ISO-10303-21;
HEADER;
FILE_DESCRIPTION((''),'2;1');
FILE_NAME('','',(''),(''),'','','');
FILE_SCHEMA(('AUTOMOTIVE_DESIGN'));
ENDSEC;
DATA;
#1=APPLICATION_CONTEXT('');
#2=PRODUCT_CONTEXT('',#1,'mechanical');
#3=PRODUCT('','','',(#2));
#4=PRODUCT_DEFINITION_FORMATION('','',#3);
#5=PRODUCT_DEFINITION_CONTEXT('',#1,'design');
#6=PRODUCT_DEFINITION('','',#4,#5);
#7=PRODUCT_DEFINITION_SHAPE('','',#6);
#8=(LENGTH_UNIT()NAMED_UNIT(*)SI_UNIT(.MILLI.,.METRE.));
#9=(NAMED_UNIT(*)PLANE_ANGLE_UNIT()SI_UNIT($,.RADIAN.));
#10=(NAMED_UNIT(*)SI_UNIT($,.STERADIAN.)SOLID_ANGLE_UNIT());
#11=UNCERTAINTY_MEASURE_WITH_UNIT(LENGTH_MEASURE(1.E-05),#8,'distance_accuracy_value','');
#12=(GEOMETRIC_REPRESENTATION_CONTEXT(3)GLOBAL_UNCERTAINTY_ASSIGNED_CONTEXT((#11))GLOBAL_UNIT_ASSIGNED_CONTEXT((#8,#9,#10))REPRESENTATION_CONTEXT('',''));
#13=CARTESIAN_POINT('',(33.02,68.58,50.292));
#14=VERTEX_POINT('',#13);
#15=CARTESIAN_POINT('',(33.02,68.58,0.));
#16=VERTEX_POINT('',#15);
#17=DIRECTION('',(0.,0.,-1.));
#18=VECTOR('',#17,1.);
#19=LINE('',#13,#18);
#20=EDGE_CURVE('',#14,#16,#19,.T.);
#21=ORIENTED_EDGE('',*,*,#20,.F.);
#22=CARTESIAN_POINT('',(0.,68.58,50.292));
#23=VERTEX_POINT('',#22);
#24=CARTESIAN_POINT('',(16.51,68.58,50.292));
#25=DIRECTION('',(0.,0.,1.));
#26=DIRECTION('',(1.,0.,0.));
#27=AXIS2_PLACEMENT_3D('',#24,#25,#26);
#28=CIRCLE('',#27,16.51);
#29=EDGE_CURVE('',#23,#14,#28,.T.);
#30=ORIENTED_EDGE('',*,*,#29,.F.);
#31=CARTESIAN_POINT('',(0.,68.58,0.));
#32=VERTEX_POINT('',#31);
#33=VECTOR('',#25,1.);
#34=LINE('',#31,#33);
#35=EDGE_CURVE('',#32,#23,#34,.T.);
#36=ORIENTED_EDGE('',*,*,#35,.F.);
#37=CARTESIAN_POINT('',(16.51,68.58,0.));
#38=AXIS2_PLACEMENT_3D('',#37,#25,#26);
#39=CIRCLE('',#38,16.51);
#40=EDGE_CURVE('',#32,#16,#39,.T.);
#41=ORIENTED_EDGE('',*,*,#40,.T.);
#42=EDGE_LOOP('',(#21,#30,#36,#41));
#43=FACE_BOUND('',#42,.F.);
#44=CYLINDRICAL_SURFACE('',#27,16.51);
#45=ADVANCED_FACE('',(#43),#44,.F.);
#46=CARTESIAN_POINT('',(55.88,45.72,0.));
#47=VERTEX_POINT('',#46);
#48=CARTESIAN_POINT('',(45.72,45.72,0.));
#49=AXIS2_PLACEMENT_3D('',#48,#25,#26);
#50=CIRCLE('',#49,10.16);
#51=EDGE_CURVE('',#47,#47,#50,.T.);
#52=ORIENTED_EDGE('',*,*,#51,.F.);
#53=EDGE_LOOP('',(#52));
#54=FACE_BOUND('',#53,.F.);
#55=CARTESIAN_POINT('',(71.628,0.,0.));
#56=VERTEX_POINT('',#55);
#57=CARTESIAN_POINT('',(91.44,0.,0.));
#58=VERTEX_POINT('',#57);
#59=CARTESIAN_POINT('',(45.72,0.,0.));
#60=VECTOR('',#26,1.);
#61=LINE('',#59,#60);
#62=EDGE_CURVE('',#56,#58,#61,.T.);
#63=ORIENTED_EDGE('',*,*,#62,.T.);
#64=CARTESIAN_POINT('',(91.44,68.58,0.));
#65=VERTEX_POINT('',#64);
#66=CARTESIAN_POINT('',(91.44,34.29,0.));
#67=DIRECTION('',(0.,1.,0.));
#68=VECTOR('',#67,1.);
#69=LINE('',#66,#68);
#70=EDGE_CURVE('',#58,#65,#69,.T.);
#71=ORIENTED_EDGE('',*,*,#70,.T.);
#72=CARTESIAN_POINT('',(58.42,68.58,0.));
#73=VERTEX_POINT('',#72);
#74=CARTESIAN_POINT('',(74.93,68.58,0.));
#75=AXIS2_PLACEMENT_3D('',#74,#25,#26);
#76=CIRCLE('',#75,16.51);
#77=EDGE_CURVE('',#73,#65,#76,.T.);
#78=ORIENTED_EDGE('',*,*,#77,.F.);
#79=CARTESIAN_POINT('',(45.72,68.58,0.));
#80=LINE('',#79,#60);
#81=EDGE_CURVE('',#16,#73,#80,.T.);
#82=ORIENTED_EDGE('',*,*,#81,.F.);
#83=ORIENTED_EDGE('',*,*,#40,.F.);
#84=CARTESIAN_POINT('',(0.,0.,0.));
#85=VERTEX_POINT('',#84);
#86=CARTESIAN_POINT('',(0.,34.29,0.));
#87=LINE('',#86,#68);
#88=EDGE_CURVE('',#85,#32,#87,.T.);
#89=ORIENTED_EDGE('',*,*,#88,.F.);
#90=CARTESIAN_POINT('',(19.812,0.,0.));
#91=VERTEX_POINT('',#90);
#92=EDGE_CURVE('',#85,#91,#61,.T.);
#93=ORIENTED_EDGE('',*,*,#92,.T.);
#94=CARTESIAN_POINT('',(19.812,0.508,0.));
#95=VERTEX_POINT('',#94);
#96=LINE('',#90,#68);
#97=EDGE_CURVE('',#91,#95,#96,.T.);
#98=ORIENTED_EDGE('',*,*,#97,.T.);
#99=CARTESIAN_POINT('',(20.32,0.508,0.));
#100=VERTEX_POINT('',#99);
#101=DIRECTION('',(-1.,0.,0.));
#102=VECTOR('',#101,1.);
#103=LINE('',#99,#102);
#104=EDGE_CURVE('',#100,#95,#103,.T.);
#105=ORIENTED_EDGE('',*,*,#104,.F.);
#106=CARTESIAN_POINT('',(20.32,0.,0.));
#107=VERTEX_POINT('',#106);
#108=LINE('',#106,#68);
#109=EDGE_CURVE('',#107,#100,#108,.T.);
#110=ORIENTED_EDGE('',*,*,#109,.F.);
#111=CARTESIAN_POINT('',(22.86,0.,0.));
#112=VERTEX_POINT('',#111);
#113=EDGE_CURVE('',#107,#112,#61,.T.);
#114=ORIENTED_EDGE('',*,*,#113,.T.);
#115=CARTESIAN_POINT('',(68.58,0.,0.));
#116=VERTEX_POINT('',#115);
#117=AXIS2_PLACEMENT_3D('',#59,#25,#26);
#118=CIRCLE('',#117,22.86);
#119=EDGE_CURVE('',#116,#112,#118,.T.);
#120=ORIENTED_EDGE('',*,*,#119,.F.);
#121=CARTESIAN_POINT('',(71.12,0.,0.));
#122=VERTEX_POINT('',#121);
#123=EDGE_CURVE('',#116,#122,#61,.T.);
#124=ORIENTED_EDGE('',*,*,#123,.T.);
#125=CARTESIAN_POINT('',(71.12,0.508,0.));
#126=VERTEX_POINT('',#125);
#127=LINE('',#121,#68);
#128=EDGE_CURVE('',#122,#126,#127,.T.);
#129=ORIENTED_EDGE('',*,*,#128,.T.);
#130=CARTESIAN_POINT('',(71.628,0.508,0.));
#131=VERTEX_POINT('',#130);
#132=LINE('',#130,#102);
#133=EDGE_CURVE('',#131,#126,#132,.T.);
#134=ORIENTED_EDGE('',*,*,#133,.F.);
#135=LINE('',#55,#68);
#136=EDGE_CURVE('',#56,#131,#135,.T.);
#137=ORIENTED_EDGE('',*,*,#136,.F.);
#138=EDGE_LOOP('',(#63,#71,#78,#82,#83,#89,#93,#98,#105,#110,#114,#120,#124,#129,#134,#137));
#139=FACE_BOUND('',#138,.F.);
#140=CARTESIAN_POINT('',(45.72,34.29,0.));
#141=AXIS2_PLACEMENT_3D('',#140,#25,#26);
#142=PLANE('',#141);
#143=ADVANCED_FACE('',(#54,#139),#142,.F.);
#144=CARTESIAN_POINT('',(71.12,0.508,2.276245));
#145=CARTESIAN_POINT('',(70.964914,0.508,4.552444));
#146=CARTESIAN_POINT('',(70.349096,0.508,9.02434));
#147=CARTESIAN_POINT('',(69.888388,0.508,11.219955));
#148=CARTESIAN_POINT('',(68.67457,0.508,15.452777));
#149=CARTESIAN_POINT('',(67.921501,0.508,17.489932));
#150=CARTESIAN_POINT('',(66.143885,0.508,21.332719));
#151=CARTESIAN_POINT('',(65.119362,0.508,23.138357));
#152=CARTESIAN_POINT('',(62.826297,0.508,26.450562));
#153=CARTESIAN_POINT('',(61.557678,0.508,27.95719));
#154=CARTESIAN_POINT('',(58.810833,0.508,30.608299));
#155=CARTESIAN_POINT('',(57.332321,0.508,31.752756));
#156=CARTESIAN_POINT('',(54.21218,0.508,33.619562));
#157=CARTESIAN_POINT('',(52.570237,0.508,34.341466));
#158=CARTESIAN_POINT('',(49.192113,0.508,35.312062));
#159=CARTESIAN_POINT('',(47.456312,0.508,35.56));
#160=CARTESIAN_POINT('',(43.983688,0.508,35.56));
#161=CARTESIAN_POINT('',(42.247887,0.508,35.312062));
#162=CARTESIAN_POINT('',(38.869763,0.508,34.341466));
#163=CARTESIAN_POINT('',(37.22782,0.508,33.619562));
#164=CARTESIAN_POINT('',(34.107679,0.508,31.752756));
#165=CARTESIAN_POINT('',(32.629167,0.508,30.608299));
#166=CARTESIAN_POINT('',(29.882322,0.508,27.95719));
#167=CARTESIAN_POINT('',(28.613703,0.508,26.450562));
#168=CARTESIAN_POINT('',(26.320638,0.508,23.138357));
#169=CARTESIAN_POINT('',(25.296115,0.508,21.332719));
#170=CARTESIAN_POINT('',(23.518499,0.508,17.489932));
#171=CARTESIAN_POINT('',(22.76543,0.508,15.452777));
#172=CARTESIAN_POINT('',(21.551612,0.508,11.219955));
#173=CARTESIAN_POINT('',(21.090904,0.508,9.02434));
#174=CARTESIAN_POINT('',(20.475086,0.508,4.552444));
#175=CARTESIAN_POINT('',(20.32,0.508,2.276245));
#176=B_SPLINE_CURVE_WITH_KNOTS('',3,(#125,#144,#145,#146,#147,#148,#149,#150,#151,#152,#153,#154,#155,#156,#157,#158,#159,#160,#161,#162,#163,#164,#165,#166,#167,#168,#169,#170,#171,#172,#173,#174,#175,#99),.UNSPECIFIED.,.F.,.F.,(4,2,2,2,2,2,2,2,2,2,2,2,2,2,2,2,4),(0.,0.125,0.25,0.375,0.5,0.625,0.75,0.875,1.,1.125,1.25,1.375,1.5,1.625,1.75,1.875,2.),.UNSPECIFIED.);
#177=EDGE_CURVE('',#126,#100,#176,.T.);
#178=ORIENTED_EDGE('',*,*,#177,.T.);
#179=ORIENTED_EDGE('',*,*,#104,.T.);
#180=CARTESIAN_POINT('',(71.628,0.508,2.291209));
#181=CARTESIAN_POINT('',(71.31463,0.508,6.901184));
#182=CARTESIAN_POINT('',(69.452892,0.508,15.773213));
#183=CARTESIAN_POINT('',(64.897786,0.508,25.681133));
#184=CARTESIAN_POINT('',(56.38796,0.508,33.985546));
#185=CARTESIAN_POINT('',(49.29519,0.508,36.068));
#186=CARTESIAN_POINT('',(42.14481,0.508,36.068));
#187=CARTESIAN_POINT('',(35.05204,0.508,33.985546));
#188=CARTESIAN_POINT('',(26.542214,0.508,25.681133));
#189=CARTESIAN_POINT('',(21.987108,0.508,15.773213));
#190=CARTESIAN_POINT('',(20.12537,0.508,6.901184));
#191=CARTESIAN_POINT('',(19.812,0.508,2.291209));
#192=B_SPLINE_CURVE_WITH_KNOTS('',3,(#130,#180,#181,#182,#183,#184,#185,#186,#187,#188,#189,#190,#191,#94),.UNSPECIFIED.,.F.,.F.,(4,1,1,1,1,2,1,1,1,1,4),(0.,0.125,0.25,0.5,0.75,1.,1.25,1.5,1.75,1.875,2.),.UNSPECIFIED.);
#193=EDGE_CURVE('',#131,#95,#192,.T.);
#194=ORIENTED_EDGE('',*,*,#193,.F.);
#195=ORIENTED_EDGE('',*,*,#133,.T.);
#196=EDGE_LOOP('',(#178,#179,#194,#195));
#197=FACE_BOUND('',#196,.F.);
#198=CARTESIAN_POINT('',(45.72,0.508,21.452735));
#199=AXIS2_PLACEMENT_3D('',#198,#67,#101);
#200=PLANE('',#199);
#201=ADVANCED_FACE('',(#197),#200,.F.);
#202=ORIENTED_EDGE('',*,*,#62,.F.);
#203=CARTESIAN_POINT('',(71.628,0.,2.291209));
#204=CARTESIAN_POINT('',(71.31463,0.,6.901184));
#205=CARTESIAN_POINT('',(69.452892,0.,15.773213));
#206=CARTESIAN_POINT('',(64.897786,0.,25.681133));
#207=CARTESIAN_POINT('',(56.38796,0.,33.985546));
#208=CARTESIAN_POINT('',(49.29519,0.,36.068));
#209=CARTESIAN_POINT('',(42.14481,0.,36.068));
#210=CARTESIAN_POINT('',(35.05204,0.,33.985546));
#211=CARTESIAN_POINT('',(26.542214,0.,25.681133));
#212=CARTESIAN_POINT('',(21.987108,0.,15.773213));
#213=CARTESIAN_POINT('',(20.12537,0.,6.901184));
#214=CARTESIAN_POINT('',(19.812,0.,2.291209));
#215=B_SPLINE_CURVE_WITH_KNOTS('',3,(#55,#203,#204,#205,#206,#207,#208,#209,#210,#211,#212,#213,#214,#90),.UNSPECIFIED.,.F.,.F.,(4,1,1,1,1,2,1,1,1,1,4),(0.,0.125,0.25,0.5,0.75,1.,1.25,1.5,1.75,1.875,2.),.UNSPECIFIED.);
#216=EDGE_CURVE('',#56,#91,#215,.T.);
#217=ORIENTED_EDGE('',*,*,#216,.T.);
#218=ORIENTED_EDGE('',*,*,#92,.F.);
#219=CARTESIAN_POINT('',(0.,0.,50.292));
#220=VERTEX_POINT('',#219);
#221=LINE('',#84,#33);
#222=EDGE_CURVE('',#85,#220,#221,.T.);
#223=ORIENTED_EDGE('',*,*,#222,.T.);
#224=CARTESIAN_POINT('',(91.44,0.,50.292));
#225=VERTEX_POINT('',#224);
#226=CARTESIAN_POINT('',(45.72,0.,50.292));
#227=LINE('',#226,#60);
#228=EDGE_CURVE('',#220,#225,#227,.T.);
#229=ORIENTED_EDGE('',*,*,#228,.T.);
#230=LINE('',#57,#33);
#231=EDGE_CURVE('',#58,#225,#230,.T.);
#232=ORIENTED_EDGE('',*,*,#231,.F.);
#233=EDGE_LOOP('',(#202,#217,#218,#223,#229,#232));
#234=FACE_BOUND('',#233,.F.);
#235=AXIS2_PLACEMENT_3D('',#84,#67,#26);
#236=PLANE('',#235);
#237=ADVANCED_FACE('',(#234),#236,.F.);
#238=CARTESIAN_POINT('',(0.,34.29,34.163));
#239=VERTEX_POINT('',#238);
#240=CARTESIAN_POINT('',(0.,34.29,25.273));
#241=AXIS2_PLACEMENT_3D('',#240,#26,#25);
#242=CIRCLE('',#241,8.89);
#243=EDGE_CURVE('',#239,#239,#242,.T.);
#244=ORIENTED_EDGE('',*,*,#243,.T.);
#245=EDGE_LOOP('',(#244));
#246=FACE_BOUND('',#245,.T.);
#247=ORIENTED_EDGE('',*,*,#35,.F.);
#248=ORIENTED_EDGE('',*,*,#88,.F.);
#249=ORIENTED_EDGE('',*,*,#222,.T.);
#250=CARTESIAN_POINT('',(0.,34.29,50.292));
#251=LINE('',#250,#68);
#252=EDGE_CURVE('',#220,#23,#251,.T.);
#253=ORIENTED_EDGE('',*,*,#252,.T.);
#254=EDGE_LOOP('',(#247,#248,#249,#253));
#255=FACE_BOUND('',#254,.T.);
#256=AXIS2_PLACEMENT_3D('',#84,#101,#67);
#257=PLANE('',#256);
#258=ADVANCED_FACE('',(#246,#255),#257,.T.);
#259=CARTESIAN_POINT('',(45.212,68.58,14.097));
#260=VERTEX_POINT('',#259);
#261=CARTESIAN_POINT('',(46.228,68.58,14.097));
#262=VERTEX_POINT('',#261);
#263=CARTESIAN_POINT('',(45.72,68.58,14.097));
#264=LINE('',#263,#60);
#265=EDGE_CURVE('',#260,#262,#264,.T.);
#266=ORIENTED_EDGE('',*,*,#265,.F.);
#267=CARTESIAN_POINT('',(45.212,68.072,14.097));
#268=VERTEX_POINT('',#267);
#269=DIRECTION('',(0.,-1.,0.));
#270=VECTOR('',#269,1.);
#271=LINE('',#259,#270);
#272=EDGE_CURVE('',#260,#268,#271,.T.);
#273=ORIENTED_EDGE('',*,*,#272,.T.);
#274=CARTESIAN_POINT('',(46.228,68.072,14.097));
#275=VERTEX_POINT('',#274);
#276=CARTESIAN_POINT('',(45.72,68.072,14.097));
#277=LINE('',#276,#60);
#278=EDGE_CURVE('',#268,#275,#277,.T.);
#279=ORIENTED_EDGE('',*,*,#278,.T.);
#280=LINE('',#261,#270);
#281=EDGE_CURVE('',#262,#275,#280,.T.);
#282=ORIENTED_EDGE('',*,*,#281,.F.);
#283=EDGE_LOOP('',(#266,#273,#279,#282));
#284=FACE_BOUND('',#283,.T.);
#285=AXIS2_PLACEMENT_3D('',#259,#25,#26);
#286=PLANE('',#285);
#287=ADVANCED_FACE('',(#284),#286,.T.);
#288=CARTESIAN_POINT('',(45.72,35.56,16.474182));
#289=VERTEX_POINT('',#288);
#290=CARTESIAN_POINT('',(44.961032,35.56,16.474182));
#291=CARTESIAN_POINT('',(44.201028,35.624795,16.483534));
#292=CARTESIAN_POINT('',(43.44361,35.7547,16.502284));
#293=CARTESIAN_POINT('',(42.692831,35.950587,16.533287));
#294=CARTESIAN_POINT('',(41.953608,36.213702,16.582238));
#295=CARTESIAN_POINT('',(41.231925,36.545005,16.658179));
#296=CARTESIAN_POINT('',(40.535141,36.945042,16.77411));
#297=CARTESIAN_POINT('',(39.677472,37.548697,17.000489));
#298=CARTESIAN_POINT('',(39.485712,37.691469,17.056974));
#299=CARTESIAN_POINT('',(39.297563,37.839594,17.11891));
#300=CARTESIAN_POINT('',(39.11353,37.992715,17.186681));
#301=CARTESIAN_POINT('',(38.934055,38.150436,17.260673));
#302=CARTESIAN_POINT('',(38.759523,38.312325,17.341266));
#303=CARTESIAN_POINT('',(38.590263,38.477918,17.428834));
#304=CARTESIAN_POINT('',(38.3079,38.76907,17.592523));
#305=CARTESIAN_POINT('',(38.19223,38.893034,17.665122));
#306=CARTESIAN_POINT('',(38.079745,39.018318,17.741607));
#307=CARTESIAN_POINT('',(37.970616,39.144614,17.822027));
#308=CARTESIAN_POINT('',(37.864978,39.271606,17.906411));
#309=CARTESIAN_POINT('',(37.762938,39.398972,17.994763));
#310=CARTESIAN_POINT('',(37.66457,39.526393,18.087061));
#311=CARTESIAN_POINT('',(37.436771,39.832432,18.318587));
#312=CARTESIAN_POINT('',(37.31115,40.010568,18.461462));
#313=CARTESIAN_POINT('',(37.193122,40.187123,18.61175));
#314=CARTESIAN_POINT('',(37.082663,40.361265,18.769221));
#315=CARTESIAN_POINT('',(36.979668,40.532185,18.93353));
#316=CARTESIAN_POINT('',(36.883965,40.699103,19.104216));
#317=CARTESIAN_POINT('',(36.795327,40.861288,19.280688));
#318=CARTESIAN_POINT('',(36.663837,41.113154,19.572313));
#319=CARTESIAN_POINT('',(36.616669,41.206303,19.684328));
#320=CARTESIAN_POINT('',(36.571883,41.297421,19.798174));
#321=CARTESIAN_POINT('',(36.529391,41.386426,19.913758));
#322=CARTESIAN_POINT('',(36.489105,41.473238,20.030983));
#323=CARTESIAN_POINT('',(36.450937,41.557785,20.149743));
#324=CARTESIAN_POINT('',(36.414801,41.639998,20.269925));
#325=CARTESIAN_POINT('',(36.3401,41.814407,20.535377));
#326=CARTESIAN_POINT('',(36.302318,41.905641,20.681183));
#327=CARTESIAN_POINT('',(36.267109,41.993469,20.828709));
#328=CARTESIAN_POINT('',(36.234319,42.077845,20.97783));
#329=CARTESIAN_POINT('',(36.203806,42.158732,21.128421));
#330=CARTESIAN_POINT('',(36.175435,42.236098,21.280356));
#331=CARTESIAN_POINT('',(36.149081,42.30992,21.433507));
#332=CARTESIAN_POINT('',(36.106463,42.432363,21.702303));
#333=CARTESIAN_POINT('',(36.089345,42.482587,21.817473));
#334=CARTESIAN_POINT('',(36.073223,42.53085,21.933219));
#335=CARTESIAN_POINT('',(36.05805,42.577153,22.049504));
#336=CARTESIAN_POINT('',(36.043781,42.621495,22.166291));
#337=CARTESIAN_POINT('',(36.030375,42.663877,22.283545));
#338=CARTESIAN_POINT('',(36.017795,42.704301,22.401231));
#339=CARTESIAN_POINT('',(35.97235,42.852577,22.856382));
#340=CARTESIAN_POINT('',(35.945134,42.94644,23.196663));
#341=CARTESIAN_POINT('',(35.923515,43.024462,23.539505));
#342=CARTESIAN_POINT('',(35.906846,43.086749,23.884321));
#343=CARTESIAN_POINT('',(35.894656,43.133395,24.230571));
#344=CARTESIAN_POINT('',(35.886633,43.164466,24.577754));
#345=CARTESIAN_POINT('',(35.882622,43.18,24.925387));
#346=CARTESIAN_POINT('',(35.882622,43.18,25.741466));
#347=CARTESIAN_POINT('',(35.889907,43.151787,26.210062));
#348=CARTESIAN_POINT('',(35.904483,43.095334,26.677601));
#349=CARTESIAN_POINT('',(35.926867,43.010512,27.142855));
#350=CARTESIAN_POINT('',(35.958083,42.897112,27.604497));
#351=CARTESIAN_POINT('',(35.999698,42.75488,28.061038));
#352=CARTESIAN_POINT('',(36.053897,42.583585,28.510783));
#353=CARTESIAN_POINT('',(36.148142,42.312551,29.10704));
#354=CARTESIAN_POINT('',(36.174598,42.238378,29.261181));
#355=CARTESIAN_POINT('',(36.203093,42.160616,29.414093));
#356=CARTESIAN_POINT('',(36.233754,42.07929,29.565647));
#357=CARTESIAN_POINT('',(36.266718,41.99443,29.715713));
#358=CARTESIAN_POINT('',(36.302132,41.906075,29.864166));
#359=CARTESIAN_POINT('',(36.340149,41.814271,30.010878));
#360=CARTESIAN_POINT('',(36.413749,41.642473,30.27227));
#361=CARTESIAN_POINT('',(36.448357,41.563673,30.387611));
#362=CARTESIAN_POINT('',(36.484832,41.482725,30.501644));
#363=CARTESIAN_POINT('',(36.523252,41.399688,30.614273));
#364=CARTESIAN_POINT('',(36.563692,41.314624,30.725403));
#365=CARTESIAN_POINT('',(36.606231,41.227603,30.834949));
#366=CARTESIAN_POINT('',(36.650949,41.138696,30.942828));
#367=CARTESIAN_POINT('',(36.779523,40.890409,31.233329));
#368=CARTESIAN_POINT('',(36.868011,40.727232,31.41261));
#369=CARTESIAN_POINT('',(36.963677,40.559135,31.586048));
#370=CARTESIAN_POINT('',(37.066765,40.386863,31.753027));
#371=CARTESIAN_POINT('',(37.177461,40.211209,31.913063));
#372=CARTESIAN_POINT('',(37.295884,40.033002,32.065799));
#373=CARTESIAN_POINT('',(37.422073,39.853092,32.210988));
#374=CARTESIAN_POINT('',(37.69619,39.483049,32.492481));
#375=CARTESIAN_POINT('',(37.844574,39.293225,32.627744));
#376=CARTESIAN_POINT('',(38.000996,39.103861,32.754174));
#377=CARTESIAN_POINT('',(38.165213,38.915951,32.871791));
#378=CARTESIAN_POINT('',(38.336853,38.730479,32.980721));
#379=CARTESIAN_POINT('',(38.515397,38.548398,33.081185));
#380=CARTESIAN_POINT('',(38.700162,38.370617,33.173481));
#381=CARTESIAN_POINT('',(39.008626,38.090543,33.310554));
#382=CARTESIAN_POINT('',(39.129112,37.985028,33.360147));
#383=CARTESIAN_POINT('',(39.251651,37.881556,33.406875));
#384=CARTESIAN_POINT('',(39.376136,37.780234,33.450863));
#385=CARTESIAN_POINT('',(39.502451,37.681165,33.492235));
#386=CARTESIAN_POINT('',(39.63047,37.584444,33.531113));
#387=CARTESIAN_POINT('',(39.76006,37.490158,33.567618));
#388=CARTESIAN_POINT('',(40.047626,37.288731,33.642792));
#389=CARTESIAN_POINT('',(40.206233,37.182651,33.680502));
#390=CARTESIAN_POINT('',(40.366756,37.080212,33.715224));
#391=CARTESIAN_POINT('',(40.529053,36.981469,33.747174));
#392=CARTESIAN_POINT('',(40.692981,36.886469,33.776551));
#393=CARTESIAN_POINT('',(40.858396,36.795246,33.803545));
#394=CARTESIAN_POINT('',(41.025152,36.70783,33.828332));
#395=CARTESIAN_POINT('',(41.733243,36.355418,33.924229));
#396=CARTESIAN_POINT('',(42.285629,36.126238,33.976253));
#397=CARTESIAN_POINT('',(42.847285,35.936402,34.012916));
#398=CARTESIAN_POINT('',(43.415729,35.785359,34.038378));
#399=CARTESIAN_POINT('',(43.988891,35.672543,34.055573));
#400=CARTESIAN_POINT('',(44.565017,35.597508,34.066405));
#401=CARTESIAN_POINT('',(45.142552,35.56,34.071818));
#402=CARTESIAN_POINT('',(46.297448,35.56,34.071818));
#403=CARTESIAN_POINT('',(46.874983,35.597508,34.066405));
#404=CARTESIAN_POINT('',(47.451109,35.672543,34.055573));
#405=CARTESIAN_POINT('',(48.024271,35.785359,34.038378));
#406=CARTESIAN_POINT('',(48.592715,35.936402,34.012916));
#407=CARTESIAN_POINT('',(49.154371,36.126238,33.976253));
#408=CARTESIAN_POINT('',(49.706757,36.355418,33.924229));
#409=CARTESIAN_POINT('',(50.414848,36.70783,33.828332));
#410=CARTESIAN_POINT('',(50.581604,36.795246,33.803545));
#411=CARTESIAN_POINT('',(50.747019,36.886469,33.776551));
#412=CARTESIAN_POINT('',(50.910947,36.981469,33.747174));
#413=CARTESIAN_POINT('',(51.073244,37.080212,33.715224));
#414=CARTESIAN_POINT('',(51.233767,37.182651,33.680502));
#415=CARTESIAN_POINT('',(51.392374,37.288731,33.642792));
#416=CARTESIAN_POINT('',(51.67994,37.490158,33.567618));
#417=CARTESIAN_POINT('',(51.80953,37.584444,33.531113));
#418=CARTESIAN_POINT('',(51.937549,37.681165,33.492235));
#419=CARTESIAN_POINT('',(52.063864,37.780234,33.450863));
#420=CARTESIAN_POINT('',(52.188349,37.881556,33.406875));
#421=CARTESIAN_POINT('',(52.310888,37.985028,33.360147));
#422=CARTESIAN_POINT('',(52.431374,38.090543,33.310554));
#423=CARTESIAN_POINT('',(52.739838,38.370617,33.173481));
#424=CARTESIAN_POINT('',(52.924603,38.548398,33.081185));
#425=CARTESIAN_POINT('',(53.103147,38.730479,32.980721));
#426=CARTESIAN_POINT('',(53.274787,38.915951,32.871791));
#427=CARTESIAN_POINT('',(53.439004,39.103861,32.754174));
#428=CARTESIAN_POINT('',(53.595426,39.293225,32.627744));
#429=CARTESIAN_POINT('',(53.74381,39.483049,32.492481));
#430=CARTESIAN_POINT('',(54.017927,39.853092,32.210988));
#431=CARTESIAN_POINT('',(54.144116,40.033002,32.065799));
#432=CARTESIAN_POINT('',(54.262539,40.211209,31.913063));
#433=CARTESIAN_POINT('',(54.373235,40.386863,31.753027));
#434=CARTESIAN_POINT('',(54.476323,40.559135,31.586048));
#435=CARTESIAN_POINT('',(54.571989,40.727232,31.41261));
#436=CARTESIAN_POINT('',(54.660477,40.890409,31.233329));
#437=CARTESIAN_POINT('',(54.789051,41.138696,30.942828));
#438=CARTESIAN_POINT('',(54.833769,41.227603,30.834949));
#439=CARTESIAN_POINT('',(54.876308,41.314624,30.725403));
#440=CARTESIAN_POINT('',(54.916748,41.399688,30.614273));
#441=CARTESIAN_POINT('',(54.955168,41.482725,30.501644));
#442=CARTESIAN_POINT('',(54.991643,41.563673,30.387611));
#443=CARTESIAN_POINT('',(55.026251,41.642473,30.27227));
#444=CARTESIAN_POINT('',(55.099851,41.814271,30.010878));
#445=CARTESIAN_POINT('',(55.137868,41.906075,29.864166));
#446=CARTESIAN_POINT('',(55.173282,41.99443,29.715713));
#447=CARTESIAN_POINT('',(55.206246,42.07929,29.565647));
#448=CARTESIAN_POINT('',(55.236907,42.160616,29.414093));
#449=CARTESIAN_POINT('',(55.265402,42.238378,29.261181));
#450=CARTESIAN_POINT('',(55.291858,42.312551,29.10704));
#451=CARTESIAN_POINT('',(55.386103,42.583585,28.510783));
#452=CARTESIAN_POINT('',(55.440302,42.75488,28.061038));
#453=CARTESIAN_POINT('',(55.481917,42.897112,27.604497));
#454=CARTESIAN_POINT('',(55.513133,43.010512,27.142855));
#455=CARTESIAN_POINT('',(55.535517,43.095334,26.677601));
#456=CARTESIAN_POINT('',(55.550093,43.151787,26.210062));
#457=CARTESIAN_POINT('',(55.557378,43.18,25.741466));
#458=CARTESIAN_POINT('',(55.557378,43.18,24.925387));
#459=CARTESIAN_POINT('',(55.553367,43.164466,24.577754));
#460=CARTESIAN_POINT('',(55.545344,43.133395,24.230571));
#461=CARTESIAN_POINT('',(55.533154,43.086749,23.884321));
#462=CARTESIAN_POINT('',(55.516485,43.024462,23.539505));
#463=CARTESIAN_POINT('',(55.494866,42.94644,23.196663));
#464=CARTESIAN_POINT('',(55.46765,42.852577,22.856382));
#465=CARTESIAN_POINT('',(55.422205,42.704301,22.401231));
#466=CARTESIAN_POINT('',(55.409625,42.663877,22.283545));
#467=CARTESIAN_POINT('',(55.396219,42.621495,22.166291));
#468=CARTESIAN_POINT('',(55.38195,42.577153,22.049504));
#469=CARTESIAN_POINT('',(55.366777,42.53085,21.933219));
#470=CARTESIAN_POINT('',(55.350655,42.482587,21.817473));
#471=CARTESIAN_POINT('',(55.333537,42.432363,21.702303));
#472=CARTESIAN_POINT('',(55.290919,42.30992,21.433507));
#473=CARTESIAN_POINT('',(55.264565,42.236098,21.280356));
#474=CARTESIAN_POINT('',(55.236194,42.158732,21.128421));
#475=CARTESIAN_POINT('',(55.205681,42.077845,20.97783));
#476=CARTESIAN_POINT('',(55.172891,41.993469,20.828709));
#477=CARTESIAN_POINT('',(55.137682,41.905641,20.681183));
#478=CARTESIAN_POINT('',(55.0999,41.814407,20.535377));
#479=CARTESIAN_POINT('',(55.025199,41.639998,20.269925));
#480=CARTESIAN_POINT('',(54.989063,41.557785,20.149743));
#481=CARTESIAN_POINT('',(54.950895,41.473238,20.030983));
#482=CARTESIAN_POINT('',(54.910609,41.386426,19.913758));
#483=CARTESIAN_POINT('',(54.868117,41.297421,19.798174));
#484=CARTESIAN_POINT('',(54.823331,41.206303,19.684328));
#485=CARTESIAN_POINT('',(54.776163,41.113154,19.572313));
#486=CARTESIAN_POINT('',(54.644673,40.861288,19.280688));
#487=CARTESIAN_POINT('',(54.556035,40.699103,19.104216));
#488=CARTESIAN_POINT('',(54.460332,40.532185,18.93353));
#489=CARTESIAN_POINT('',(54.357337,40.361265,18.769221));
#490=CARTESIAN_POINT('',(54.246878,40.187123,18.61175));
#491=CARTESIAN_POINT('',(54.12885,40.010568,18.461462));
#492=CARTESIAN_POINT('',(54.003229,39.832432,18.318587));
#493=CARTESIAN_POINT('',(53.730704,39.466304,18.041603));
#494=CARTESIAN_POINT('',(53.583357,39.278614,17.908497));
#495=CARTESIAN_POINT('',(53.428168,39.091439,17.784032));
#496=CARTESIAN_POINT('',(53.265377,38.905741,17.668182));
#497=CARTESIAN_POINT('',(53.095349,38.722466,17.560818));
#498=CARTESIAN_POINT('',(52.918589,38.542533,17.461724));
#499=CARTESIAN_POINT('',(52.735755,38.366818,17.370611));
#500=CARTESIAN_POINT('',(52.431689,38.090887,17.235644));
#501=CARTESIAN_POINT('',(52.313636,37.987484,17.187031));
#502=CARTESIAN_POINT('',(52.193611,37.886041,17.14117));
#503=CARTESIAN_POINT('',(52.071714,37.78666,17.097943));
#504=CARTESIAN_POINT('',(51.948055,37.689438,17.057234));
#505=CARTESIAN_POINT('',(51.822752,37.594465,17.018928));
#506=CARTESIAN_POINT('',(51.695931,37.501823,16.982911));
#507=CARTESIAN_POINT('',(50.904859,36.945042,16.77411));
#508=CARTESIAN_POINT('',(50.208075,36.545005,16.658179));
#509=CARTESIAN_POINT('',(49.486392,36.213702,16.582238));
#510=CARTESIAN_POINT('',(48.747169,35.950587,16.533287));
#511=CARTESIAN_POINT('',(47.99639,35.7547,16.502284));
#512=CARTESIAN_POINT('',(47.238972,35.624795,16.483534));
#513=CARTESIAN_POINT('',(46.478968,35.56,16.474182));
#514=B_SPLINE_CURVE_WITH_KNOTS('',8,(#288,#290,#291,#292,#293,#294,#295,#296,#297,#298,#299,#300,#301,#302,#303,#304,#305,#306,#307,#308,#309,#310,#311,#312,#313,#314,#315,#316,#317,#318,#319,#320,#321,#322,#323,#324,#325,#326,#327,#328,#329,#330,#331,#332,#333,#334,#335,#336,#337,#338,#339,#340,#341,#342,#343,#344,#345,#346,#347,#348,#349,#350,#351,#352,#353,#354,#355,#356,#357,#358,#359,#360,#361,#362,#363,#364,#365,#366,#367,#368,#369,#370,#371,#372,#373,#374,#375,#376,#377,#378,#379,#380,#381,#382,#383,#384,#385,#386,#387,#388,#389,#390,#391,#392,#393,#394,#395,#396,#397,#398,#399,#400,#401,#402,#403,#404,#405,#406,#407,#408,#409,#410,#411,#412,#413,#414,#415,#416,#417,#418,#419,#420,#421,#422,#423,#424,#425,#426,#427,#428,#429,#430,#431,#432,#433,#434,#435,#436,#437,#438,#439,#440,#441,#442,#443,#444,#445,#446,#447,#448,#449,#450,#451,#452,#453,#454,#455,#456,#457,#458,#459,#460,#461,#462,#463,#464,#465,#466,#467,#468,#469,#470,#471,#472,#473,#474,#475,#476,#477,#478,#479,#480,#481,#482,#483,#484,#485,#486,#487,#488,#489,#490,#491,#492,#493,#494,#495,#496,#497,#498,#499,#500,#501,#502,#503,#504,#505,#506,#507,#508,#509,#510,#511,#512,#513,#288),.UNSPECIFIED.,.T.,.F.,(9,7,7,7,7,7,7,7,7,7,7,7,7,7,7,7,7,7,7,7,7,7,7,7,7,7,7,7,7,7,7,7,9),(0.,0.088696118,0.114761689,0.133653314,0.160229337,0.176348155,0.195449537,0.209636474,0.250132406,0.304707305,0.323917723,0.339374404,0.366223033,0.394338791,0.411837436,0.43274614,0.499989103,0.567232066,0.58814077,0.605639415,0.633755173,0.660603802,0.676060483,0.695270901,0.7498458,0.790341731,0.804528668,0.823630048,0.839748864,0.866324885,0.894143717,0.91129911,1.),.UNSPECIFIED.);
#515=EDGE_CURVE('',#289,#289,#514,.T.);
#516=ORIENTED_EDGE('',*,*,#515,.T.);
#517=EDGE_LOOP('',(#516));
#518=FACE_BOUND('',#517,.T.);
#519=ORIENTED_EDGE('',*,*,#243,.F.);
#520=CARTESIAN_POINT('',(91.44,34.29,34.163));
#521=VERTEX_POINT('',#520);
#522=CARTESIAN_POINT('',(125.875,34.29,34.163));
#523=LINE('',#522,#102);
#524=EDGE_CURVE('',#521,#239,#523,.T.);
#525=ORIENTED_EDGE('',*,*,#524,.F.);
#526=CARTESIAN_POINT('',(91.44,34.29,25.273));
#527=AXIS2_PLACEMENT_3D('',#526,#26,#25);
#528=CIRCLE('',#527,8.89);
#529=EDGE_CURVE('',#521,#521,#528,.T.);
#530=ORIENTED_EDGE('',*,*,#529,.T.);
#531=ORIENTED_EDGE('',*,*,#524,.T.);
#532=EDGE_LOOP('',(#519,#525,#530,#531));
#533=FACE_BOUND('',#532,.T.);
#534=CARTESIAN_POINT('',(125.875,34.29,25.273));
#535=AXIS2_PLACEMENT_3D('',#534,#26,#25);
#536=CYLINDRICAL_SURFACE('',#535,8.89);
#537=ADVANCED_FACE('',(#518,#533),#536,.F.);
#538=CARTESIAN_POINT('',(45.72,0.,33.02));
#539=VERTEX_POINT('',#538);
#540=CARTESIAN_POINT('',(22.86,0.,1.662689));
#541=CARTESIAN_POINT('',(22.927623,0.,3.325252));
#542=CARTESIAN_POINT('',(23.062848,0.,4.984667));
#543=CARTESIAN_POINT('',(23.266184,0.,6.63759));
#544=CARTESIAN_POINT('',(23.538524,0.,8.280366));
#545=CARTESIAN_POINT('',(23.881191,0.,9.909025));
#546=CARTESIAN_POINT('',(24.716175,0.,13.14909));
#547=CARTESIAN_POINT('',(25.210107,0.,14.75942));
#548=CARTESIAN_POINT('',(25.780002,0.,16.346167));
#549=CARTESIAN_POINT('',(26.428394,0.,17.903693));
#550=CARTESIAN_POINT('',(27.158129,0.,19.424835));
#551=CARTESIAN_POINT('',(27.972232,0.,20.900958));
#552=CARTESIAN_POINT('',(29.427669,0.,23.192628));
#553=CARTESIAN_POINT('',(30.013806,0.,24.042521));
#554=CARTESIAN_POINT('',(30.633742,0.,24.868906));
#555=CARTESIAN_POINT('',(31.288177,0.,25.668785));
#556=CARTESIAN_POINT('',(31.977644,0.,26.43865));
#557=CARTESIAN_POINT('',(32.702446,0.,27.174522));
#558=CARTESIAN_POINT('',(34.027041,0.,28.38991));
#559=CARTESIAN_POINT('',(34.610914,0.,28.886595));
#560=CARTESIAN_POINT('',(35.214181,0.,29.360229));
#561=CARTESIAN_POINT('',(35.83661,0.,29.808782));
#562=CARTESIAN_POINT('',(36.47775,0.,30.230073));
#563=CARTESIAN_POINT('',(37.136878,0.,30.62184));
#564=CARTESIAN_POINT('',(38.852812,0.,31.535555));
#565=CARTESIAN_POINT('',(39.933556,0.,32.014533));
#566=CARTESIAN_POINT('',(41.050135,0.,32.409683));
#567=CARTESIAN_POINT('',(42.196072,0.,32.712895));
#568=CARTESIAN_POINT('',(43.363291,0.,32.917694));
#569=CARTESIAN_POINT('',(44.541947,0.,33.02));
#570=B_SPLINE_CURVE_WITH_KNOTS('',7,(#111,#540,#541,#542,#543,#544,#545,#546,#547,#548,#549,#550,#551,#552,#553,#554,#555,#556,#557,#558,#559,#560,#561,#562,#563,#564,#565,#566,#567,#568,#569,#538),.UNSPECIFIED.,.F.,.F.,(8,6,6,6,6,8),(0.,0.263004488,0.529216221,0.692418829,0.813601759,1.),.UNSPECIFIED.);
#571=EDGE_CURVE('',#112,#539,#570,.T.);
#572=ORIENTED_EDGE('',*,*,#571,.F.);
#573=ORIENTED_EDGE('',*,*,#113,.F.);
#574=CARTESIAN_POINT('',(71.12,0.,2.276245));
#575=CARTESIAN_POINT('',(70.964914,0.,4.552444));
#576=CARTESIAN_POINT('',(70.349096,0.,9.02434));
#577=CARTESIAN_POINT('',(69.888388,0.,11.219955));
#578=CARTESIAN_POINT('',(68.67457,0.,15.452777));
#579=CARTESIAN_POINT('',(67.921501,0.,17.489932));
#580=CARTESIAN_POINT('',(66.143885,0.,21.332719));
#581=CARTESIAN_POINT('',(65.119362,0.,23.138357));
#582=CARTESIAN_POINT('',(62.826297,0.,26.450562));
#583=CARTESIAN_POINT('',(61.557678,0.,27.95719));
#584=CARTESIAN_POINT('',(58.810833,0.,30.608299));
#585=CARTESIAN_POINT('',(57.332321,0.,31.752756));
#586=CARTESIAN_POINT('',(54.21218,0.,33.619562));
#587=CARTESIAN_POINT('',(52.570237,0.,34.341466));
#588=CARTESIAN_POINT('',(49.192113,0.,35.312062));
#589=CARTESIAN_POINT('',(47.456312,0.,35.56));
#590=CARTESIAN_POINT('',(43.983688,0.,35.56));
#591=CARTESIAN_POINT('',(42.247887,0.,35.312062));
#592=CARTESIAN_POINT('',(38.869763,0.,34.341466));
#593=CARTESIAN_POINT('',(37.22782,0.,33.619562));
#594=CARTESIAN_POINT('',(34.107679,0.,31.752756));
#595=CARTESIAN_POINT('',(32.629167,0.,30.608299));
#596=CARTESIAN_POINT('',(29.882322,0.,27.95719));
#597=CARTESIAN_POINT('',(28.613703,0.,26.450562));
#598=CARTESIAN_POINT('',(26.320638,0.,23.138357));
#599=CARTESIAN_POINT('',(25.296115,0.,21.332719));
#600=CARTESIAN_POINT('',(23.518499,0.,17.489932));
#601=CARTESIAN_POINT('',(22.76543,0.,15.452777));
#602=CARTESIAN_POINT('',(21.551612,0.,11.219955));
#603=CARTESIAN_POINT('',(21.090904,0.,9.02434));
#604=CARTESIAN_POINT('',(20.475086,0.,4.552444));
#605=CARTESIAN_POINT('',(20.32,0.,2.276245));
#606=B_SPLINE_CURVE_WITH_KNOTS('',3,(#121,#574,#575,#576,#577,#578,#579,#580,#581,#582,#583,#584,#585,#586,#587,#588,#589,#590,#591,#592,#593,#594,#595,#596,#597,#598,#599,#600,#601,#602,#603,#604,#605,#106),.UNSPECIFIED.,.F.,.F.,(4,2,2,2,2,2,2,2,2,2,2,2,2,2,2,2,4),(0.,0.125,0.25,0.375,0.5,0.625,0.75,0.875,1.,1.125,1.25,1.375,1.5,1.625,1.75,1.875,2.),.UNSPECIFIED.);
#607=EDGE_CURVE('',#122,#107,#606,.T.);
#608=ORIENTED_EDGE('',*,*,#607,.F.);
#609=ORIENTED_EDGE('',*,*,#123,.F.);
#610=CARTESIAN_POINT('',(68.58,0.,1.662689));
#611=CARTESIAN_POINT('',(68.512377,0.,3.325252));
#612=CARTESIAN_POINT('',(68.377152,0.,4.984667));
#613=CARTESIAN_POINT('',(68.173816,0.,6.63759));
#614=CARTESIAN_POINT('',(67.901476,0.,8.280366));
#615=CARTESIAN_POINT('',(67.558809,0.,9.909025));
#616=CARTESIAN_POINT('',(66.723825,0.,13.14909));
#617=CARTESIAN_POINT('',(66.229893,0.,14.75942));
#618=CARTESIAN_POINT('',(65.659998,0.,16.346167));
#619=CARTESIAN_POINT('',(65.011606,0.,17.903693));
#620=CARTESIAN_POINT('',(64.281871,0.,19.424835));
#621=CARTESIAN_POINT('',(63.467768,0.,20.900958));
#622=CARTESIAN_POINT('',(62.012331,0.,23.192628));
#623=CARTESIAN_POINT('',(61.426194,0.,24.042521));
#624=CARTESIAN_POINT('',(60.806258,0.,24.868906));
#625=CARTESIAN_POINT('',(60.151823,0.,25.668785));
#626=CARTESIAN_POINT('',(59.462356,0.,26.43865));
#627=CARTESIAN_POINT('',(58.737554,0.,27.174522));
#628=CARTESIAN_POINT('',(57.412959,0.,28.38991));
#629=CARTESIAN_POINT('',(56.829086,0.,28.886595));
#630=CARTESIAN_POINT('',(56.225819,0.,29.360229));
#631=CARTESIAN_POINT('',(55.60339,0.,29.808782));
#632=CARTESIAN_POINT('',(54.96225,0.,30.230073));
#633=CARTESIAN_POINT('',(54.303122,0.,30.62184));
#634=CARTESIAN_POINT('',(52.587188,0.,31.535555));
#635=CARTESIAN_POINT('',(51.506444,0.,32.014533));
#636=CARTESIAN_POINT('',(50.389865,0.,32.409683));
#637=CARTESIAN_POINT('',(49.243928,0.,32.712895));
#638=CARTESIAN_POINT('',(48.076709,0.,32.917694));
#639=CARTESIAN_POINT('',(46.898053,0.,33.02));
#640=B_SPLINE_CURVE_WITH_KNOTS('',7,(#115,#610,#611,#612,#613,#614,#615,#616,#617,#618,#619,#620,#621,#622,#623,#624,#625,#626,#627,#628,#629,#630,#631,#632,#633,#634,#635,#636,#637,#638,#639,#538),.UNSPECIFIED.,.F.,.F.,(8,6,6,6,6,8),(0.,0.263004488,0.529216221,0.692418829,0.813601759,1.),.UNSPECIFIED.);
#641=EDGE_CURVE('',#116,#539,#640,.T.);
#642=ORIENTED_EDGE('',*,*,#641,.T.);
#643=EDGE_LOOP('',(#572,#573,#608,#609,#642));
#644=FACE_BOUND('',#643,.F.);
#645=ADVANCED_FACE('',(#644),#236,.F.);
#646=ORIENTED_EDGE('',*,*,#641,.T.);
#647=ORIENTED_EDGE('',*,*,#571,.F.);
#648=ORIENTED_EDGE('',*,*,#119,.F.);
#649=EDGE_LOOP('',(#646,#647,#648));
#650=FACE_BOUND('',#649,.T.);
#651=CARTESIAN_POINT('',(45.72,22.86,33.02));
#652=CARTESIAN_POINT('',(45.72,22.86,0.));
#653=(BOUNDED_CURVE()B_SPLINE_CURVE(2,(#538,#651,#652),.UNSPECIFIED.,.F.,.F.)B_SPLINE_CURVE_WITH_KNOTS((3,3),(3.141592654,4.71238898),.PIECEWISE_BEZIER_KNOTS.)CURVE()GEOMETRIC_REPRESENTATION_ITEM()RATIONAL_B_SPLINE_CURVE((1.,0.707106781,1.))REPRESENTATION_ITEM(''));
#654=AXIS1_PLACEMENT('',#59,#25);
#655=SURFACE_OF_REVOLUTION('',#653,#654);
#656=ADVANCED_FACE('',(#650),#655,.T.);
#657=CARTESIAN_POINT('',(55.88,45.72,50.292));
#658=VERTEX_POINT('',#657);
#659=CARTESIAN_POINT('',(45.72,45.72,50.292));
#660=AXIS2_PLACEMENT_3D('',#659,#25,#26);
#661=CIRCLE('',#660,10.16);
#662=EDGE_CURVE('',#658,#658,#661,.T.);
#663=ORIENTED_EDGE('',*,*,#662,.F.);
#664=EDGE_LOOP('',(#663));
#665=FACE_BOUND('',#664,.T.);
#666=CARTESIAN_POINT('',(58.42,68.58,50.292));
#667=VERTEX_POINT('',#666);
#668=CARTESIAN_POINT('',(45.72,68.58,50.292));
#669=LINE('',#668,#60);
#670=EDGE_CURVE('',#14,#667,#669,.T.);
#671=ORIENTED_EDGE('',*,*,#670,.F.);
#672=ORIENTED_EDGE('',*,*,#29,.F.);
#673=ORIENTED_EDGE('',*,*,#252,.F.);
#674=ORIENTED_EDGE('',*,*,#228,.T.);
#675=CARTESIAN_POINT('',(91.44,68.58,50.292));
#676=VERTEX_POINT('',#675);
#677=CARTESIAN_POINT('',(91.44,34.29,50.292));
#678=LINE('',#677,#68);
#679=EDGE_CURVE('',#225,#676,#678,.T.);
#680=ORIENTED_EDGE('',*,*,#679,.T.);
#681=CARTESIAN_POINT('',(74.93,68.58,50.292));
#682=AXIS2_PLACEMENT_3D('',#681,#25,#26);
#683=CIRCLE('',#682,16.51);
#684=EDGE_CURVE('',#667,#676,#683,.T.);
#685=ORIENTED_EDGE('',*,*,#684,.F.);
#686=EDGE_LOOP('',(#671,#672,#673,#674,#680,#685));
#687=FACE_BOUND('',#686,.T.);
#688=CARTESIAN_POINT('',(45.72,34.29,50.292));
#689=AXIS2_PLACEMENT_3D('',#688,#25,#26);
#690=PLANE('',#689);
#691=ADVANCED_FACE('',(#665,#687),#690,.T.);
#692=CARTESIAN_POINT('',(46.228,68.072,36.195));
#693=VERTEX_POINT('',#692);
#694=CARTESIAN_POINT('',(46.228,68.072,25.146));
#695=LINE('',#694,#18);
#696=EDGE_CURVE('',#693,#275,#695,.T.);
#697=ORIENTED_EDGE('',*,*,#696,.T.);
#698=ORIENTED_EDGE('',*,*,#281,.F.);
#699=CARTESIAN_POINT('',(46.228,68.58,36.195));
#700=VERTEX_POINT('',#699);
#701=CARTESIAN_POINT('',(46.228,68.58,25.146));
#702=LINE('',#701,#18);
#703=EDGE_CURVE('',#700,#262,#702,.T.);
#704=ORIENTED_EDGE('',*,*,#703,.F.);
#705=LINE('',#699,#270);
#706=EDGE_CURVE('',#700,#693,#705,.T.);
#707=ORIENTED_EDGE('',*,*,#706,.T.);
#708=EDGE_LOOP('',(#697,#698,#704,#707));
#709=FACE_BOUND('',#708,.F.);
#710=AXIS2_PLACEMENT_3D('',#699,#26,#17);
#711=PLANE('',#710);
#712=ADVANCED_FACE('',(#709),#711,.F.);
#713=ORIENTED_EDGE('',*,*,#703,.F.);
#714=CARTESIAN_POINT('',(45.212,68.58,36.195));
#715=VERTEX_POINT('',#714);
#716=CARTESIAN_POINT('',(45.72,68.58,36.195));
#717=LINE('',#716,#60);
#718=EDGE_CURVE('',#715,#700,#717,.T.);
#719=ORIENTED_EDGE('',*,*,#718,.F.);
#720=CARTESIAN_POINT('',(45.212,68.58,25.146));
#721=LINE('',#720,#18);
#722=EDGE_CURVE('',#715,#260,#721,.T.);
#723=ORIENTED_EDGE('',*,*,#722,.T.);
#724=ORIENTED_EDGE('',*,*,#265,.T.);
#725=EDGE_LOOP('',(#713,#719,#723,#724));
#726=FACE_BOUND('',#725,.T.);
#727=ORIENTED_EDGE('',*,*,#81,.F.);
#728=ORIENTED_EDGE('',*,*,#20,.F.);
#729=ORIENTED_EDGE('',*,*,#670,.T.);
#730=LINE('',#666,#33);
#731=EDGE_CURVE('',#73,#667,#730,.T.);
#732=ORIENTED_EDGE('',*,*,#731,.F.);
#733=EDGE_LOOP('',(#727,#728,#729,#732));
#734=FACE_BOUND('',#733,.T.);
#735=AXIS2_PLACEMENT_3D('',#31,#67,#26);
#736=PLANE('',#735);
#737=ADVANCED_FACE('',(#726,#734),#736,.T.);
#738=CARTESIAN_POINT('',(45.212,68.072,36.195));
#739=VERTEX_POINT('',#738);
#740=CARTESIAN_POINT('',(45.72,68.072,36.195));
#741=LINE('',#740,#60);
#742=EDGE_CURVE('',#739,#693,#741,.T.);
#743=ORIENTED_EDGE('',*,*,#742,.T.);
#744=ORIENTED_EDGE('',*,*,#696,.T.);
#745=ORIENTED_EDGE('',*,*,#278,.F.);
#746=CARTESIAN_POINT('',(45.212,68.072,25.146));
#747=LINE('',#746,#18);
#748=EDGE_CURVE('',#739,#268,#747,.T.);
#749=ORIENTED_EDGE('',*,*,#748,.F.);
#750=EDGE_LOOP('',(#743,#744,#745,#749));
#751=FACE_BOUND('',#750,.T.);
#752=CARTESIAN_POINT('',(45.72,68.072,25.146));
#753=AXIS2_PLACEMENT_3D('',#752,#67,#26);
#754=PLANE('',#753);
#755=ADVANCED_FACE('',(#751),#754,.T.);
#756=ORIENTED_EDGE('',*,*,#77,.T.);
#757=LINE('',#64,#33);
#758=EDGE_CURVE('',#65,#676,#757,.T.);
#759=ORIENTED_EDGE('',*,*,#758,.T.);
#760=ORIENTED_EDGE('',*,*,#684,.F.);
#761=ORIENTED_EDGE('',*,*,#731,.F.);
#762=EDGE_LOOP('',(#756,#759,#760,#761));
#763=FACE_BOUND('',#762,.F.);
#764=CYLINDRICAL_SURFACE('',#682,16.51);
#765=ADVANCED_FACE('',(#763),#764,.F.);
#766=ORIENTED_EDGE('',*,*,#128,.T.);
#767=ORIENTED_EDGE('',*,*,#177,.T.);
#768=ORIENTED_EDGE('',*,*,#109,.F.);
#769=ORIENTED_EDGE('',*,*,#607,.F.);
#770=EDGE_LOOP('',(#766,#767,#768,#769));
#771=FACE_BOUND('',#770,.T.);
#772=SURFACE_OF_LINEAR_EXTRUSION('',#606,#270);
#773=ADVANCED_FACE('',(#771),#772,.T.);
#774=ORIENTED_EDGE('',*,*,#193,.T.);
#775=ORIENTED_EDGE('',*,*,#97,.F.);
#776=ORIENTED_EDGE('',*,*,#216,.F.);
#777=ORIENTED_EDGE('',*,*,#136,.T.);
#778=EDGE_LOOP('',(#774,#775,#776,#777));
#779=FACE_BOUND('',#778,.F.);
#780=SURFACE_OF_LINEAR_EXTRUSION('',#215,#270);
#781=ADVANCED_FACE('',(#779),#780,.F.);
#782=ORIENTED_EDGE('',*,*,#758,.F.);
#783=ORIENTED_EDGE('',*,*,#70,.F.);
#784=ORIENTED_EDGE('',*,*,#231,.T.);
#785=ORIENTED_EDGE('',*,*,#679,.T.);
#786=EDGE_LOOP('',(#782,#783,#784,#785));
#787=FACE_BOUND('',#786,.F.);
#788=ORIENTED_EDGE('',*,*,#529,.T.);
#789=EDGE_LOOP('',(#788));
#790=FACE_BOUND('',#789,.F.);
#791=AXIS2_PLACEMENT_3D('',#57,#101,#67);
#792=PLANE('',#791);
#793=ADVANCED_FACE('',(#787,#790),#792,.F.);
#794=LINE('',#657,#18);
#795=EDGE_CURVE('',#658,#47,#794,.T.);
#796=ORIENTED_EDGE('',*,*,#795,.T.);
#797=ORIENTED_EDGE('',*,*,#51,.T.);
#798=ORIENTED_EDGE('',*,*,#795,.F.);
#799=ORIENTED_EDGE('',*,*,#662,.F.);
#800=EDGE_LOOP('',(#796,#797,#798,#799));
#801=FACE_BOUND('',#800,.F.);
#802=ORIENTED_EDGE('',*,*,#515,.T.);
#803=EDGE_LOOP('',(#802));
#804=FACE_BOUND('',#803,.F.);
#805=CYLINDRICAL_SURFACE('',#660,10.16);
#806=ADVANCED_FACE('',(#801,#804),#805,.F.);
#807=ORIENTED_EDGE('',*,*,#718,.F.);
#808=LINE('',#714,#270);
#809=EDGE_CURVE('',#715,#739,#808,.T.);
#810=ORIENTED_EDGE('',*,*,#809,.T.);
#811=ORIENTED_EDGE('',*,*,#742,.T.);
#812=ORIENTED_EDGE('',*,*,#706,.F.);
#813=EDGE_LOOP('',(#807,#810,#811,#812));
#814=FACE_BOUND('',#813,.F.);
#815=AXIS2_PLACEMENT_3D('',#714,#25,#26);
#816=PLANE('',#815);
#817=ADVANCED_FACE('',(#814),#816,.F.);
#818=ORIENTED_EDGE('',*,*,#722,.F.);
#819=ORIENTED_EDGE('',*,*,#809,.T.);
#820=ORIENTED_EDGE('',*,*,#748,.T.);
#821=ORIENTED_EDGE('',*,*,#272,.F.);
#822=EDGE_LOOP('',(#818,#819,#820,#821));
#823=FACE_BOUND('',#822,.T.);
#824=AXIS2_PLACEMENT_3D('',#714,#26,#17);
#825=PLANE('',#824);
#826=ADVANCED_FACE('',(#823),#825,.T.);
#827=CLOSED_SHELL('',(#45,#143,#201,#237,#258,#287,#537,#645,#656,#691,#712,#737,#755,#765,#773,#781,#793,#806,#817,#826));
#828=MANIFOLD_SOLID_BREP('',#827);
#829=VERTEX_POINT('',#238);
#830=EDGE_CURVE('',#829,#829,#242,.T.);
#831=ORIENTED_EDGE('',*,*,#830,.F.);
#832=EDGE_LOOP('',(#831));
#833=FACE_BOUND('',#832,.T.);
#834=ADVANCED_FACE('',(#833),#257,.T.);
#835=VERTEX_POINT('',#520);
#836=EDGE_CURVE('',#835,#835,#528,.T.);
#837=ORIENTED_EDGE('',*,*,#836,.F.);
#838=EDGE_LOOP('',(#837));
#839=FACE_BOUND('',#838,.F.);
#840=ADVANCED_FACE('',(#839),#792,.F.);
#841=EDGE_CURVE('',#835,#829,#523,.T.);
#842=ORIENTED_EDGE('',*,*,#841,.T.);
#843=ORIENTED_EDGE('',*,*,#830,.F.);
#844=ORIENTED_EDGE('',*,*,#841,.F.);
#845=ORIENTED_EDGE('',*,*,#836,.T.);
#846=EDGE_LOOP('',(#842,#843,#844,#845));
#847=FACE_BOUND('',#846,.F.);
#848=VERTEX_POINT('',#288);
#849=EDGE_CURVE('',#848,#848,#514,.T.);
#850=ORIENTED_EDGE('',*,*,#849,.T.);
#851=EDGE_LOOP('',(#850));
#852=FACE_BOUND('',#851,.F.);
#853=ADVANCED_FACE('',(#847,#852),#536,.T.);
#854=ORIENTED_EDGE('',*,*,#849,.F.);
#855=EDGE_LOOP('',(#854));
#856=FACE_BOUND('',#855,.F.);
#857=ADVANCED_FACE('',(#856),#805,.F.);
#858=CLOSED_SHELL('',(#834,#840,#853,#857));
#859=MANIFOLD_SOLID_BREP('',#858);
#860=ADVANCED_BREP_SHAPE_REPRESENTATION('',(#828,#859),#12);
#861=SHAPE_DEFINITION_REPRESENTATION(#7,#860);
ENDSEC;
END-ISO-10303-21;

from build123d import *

# Parameters (mm, degrees)
SKETCH1_W              = 91.44
SKETCH1_H              = 68.58
BOSS_EXTRUDE1_DEPTH    = 50.292
SKETCH2_R              = 16.51
CUT_EXTRUDE1_DEPTH     = 125.875038595
SKETCH3_R              = 10.16
CUT_EXTRUDE2_DEPTH     = 125.875038595
SKETCH15_W             = 1.016
SKETCH15_H             = 22.098
CUT_EXTRUDE4_DEPTH     = 0.508
SPLIT1_SURFACE_1_BACK  = 125.875
SPLIT1_SURFACE_1_DEPTH = 251.75
SPLIT1_SURFACE_2_BACK  = 125.875
SPLIT1_SURFACE_2_DEPTH = 251.75
CUT_EXTRUDE3_DEPTH     = 0.508


with BuildPart() as part:
    # Sketch1 → Boss-Extrude1 (new body)
    with BuildSketch(Plane.XY):
        with Locations((45.72, 34.29)):
            Rectangle(SKETCH1_W, SKETCH1_H)
    extrude(amount=BOSS_EXTRUDE1_DEPTH)

    # Sketch2 → Cut-Extrude1 (cut, through all)
    with BuildSketch(Plane.XY.offset(50.292)):
        with Locations((16.51, 68.58)):
            Circle(SKETCH2_R)
        with Locations((74.93, 68.58)):
            Circle(SKETCH2_R)
    extrude(amount=-CUT_EXTRUDE1_DEPTH, mode=Mode.SUBTRACT)

    # Sketch3 → Cut-Extrude2 (cut, through all)
    with BuildSketch(Plane.XY.offset(50.292)):
        with Locations((45.72, 45.72)):
            Circle(SKETCH3_R)
    extrude(amount=-CUT_EXTRUDE2_DEPTH, mode=Mode.SUBTRACT)

    # Sketch11 → Cut-Revolve1 (revolve, cut)
    with BuildSketch(Plane.ZY.offset(-45.72)):
        with BuildLine():
            Line((0, 0), (33.02, 0))
            add(Edge.make_bspline(
                [(33.02, 0), (33.02, 22.86), (0, 22.86)],
                knots=[3.141592654, 3.141592654, 3.141592654, 4.71238898, 4.71238898, 4.71238898], degree=2, weights=[1, 0.707106781, 1]))
            Line((0, 22.86), (0, 0))
        make_face()
    revolve(axis=Axis((45.72, 0, 0), (0, 0, 1)), mode=Mode.SUBTRACT)

    # Sketch15 → Cut-Extrude4 (cut)
    with BuildSketch(Plane(origin=(0, 68.58, 0), x_dir=(1, 0, 0), z_dir=(0, 1, 0))):
        with Locations((45.72, -25.146)):
            Rectangle(SKETCH15_W, SKETCH15_H)
    extrude(amount=-CUT_EXTRUDE4_DEPTH, mode=Mode.SUBTRACT)


with BuildPart() as body_2:
    # Split1: the piece behind the surface
    add(part.part)
    # Split1 surface: a surface, the sketch's curves swept straight by 251.75 mm
    with BuildLine(Plane.ZY.offset(-SPLIT1_SURFACE_1_BACK), mode=Mode.PRIVATE) as split1_surface_1_path:
        CenterArc((25.273, 34.29), 8.89, 0, 360)
    split1_surface_1 = Shell.extrude(split1_surface_1_path.wire(), (-1 * SPLIT1_SURFACE_1_DEPTH, 0 * SPLIT1_SURFACE_1_DEPTH, 0 * SPLIT1_SURFACE_1_DEPTH))
    split(bisect_by=split1_surface_1, keep=Keep.BOTTOM)

    # Sketch12 → Cut-Extrude3 (cut)
    with BuildSketch(Plane.XZ):
        with BuildLine():
            Line((71.628, 0), (71.12, 0))
            add(Edge.make_bspline(
                [(71.12, 0), (71.12, 2.276244985), (70.964914115, 4.552443767), (70.349095665, 9.024340369), (69.888388082, 11.219955291), (68.674570464, 15.452776891), (67.921501402, 17.489932253), (66.143884943, 21.332719306), (65.119361513, 23.13835701), (62.826296857, 26.450561512), (61.55767782, 27.957189939), (58.810832755, 30.608298997), (57.332320888, 31.752755749), (54.212180089, 33.619562445), (52.570236556, 34.341466449), (49.192113285, 35.312061611), (47.456311718, 35.56), (45.72, 35.56)],
                knots=[0, 0, 0, 0, 0.125, 0.125, 0.25, 0.25, 0.375, 0.375, 0.5, 0.5, 0.625, 0.625, 0.75, 0.75, 0.875, 0.875, 1, 1, 1, 1], degree=3))
            add(Edge.make_bspline(
                [(45.72, 35.56), (43.983688282, 35.56), (42.247886715, 35.312061611), (38.869763444, 34.341466449), (37.227819911, 33.619562445), (34.107679112, 31.752755749), (32.629167245, 30.608298997), (29.88232218, 27.957189939), (28.613703143, 26.450561512), (26.320638487, 23.13835701), (25.296115057, 21.332719306), (23.518498598, 17.489932253), (22.765429536, 15.452776891), (21.551611918, 11.219955291), (21.090904335, 9.024340369), (20.475085885, 4.552443767), (20.32, 2.276244985), (20.32, 0)],
                knots=[0, 0, 0, 0, 0.125, 0.125, 0.25, 0.25, 0.375, 0.375, 0.5, 0.5, 0.625, 0.625, 0.75, 0.75, 0.875, 0.875, 1, 1, 1, 1], degree=3))
            Line((20.32, 0), (19.812, 0))
            add(Edge.make_bspline(
                [(45.72, 36.068), (42.144810252, 36.068), (35.052039646, 33.985545585), (26.542214261, 25.681133353), (21.987107711, 15.773212712), (20.125369552, 6.901184214), (19.812, 2.291209088), (19.812, 0)],
                knots=[0, 0, 0, 0, 0.25, 0.5, 0.75, 0.875, 1, 1, 1, 1], degree=3))
            add(Edge.make_bspline(
                [(71.628, 0), (71.628, 2.291209088), (71.314630448, 6.901184214), (69.452892289, 15.773212712), (64.897785739, 25.681133353), (56.387960354, 33.985545585), (49.295189748, 36.068), (45.72, 36.068)],
                knots=[0, 0, 0, 0, 0.125, 0.25, 0.5, 0.75, 1, 1, 1, 1], degree=3))
        make_face()
    extrude(amount=-CUT_EXTRUDE3_DEPTH, mode=Mode.SUBTRACT)


with BuildPart() as part_1:
    add(part.part)

    # Split1: split by a surface, the side it looks to stays
    # Split1 surface: a surface, the sketch's curves swept straight by 251.75 mm
    with BuildLine(Plane.ZY.offset(-SPLIT1_SURFACE_2_BACK), mode=Mode.PRIVATE) as split1_surface_2_path:
        CenterArc((25.273, 34.29), 8.89, 0, 360)
    split1_surface_2 = Shell.extrude(split1_surface_2_path.wire(), (-1 * SPLIT1_SURFACE_2_DEPTH, 0 * SPLIT1_SURFACE_2_DEPTH, 0 * SPLIT1_SURFACE_2_DEPTH))
    split(bisect_by=split1_surface_2, keep=Keep.TOP)


solid = Compound([body_2.part, part_1.part])
